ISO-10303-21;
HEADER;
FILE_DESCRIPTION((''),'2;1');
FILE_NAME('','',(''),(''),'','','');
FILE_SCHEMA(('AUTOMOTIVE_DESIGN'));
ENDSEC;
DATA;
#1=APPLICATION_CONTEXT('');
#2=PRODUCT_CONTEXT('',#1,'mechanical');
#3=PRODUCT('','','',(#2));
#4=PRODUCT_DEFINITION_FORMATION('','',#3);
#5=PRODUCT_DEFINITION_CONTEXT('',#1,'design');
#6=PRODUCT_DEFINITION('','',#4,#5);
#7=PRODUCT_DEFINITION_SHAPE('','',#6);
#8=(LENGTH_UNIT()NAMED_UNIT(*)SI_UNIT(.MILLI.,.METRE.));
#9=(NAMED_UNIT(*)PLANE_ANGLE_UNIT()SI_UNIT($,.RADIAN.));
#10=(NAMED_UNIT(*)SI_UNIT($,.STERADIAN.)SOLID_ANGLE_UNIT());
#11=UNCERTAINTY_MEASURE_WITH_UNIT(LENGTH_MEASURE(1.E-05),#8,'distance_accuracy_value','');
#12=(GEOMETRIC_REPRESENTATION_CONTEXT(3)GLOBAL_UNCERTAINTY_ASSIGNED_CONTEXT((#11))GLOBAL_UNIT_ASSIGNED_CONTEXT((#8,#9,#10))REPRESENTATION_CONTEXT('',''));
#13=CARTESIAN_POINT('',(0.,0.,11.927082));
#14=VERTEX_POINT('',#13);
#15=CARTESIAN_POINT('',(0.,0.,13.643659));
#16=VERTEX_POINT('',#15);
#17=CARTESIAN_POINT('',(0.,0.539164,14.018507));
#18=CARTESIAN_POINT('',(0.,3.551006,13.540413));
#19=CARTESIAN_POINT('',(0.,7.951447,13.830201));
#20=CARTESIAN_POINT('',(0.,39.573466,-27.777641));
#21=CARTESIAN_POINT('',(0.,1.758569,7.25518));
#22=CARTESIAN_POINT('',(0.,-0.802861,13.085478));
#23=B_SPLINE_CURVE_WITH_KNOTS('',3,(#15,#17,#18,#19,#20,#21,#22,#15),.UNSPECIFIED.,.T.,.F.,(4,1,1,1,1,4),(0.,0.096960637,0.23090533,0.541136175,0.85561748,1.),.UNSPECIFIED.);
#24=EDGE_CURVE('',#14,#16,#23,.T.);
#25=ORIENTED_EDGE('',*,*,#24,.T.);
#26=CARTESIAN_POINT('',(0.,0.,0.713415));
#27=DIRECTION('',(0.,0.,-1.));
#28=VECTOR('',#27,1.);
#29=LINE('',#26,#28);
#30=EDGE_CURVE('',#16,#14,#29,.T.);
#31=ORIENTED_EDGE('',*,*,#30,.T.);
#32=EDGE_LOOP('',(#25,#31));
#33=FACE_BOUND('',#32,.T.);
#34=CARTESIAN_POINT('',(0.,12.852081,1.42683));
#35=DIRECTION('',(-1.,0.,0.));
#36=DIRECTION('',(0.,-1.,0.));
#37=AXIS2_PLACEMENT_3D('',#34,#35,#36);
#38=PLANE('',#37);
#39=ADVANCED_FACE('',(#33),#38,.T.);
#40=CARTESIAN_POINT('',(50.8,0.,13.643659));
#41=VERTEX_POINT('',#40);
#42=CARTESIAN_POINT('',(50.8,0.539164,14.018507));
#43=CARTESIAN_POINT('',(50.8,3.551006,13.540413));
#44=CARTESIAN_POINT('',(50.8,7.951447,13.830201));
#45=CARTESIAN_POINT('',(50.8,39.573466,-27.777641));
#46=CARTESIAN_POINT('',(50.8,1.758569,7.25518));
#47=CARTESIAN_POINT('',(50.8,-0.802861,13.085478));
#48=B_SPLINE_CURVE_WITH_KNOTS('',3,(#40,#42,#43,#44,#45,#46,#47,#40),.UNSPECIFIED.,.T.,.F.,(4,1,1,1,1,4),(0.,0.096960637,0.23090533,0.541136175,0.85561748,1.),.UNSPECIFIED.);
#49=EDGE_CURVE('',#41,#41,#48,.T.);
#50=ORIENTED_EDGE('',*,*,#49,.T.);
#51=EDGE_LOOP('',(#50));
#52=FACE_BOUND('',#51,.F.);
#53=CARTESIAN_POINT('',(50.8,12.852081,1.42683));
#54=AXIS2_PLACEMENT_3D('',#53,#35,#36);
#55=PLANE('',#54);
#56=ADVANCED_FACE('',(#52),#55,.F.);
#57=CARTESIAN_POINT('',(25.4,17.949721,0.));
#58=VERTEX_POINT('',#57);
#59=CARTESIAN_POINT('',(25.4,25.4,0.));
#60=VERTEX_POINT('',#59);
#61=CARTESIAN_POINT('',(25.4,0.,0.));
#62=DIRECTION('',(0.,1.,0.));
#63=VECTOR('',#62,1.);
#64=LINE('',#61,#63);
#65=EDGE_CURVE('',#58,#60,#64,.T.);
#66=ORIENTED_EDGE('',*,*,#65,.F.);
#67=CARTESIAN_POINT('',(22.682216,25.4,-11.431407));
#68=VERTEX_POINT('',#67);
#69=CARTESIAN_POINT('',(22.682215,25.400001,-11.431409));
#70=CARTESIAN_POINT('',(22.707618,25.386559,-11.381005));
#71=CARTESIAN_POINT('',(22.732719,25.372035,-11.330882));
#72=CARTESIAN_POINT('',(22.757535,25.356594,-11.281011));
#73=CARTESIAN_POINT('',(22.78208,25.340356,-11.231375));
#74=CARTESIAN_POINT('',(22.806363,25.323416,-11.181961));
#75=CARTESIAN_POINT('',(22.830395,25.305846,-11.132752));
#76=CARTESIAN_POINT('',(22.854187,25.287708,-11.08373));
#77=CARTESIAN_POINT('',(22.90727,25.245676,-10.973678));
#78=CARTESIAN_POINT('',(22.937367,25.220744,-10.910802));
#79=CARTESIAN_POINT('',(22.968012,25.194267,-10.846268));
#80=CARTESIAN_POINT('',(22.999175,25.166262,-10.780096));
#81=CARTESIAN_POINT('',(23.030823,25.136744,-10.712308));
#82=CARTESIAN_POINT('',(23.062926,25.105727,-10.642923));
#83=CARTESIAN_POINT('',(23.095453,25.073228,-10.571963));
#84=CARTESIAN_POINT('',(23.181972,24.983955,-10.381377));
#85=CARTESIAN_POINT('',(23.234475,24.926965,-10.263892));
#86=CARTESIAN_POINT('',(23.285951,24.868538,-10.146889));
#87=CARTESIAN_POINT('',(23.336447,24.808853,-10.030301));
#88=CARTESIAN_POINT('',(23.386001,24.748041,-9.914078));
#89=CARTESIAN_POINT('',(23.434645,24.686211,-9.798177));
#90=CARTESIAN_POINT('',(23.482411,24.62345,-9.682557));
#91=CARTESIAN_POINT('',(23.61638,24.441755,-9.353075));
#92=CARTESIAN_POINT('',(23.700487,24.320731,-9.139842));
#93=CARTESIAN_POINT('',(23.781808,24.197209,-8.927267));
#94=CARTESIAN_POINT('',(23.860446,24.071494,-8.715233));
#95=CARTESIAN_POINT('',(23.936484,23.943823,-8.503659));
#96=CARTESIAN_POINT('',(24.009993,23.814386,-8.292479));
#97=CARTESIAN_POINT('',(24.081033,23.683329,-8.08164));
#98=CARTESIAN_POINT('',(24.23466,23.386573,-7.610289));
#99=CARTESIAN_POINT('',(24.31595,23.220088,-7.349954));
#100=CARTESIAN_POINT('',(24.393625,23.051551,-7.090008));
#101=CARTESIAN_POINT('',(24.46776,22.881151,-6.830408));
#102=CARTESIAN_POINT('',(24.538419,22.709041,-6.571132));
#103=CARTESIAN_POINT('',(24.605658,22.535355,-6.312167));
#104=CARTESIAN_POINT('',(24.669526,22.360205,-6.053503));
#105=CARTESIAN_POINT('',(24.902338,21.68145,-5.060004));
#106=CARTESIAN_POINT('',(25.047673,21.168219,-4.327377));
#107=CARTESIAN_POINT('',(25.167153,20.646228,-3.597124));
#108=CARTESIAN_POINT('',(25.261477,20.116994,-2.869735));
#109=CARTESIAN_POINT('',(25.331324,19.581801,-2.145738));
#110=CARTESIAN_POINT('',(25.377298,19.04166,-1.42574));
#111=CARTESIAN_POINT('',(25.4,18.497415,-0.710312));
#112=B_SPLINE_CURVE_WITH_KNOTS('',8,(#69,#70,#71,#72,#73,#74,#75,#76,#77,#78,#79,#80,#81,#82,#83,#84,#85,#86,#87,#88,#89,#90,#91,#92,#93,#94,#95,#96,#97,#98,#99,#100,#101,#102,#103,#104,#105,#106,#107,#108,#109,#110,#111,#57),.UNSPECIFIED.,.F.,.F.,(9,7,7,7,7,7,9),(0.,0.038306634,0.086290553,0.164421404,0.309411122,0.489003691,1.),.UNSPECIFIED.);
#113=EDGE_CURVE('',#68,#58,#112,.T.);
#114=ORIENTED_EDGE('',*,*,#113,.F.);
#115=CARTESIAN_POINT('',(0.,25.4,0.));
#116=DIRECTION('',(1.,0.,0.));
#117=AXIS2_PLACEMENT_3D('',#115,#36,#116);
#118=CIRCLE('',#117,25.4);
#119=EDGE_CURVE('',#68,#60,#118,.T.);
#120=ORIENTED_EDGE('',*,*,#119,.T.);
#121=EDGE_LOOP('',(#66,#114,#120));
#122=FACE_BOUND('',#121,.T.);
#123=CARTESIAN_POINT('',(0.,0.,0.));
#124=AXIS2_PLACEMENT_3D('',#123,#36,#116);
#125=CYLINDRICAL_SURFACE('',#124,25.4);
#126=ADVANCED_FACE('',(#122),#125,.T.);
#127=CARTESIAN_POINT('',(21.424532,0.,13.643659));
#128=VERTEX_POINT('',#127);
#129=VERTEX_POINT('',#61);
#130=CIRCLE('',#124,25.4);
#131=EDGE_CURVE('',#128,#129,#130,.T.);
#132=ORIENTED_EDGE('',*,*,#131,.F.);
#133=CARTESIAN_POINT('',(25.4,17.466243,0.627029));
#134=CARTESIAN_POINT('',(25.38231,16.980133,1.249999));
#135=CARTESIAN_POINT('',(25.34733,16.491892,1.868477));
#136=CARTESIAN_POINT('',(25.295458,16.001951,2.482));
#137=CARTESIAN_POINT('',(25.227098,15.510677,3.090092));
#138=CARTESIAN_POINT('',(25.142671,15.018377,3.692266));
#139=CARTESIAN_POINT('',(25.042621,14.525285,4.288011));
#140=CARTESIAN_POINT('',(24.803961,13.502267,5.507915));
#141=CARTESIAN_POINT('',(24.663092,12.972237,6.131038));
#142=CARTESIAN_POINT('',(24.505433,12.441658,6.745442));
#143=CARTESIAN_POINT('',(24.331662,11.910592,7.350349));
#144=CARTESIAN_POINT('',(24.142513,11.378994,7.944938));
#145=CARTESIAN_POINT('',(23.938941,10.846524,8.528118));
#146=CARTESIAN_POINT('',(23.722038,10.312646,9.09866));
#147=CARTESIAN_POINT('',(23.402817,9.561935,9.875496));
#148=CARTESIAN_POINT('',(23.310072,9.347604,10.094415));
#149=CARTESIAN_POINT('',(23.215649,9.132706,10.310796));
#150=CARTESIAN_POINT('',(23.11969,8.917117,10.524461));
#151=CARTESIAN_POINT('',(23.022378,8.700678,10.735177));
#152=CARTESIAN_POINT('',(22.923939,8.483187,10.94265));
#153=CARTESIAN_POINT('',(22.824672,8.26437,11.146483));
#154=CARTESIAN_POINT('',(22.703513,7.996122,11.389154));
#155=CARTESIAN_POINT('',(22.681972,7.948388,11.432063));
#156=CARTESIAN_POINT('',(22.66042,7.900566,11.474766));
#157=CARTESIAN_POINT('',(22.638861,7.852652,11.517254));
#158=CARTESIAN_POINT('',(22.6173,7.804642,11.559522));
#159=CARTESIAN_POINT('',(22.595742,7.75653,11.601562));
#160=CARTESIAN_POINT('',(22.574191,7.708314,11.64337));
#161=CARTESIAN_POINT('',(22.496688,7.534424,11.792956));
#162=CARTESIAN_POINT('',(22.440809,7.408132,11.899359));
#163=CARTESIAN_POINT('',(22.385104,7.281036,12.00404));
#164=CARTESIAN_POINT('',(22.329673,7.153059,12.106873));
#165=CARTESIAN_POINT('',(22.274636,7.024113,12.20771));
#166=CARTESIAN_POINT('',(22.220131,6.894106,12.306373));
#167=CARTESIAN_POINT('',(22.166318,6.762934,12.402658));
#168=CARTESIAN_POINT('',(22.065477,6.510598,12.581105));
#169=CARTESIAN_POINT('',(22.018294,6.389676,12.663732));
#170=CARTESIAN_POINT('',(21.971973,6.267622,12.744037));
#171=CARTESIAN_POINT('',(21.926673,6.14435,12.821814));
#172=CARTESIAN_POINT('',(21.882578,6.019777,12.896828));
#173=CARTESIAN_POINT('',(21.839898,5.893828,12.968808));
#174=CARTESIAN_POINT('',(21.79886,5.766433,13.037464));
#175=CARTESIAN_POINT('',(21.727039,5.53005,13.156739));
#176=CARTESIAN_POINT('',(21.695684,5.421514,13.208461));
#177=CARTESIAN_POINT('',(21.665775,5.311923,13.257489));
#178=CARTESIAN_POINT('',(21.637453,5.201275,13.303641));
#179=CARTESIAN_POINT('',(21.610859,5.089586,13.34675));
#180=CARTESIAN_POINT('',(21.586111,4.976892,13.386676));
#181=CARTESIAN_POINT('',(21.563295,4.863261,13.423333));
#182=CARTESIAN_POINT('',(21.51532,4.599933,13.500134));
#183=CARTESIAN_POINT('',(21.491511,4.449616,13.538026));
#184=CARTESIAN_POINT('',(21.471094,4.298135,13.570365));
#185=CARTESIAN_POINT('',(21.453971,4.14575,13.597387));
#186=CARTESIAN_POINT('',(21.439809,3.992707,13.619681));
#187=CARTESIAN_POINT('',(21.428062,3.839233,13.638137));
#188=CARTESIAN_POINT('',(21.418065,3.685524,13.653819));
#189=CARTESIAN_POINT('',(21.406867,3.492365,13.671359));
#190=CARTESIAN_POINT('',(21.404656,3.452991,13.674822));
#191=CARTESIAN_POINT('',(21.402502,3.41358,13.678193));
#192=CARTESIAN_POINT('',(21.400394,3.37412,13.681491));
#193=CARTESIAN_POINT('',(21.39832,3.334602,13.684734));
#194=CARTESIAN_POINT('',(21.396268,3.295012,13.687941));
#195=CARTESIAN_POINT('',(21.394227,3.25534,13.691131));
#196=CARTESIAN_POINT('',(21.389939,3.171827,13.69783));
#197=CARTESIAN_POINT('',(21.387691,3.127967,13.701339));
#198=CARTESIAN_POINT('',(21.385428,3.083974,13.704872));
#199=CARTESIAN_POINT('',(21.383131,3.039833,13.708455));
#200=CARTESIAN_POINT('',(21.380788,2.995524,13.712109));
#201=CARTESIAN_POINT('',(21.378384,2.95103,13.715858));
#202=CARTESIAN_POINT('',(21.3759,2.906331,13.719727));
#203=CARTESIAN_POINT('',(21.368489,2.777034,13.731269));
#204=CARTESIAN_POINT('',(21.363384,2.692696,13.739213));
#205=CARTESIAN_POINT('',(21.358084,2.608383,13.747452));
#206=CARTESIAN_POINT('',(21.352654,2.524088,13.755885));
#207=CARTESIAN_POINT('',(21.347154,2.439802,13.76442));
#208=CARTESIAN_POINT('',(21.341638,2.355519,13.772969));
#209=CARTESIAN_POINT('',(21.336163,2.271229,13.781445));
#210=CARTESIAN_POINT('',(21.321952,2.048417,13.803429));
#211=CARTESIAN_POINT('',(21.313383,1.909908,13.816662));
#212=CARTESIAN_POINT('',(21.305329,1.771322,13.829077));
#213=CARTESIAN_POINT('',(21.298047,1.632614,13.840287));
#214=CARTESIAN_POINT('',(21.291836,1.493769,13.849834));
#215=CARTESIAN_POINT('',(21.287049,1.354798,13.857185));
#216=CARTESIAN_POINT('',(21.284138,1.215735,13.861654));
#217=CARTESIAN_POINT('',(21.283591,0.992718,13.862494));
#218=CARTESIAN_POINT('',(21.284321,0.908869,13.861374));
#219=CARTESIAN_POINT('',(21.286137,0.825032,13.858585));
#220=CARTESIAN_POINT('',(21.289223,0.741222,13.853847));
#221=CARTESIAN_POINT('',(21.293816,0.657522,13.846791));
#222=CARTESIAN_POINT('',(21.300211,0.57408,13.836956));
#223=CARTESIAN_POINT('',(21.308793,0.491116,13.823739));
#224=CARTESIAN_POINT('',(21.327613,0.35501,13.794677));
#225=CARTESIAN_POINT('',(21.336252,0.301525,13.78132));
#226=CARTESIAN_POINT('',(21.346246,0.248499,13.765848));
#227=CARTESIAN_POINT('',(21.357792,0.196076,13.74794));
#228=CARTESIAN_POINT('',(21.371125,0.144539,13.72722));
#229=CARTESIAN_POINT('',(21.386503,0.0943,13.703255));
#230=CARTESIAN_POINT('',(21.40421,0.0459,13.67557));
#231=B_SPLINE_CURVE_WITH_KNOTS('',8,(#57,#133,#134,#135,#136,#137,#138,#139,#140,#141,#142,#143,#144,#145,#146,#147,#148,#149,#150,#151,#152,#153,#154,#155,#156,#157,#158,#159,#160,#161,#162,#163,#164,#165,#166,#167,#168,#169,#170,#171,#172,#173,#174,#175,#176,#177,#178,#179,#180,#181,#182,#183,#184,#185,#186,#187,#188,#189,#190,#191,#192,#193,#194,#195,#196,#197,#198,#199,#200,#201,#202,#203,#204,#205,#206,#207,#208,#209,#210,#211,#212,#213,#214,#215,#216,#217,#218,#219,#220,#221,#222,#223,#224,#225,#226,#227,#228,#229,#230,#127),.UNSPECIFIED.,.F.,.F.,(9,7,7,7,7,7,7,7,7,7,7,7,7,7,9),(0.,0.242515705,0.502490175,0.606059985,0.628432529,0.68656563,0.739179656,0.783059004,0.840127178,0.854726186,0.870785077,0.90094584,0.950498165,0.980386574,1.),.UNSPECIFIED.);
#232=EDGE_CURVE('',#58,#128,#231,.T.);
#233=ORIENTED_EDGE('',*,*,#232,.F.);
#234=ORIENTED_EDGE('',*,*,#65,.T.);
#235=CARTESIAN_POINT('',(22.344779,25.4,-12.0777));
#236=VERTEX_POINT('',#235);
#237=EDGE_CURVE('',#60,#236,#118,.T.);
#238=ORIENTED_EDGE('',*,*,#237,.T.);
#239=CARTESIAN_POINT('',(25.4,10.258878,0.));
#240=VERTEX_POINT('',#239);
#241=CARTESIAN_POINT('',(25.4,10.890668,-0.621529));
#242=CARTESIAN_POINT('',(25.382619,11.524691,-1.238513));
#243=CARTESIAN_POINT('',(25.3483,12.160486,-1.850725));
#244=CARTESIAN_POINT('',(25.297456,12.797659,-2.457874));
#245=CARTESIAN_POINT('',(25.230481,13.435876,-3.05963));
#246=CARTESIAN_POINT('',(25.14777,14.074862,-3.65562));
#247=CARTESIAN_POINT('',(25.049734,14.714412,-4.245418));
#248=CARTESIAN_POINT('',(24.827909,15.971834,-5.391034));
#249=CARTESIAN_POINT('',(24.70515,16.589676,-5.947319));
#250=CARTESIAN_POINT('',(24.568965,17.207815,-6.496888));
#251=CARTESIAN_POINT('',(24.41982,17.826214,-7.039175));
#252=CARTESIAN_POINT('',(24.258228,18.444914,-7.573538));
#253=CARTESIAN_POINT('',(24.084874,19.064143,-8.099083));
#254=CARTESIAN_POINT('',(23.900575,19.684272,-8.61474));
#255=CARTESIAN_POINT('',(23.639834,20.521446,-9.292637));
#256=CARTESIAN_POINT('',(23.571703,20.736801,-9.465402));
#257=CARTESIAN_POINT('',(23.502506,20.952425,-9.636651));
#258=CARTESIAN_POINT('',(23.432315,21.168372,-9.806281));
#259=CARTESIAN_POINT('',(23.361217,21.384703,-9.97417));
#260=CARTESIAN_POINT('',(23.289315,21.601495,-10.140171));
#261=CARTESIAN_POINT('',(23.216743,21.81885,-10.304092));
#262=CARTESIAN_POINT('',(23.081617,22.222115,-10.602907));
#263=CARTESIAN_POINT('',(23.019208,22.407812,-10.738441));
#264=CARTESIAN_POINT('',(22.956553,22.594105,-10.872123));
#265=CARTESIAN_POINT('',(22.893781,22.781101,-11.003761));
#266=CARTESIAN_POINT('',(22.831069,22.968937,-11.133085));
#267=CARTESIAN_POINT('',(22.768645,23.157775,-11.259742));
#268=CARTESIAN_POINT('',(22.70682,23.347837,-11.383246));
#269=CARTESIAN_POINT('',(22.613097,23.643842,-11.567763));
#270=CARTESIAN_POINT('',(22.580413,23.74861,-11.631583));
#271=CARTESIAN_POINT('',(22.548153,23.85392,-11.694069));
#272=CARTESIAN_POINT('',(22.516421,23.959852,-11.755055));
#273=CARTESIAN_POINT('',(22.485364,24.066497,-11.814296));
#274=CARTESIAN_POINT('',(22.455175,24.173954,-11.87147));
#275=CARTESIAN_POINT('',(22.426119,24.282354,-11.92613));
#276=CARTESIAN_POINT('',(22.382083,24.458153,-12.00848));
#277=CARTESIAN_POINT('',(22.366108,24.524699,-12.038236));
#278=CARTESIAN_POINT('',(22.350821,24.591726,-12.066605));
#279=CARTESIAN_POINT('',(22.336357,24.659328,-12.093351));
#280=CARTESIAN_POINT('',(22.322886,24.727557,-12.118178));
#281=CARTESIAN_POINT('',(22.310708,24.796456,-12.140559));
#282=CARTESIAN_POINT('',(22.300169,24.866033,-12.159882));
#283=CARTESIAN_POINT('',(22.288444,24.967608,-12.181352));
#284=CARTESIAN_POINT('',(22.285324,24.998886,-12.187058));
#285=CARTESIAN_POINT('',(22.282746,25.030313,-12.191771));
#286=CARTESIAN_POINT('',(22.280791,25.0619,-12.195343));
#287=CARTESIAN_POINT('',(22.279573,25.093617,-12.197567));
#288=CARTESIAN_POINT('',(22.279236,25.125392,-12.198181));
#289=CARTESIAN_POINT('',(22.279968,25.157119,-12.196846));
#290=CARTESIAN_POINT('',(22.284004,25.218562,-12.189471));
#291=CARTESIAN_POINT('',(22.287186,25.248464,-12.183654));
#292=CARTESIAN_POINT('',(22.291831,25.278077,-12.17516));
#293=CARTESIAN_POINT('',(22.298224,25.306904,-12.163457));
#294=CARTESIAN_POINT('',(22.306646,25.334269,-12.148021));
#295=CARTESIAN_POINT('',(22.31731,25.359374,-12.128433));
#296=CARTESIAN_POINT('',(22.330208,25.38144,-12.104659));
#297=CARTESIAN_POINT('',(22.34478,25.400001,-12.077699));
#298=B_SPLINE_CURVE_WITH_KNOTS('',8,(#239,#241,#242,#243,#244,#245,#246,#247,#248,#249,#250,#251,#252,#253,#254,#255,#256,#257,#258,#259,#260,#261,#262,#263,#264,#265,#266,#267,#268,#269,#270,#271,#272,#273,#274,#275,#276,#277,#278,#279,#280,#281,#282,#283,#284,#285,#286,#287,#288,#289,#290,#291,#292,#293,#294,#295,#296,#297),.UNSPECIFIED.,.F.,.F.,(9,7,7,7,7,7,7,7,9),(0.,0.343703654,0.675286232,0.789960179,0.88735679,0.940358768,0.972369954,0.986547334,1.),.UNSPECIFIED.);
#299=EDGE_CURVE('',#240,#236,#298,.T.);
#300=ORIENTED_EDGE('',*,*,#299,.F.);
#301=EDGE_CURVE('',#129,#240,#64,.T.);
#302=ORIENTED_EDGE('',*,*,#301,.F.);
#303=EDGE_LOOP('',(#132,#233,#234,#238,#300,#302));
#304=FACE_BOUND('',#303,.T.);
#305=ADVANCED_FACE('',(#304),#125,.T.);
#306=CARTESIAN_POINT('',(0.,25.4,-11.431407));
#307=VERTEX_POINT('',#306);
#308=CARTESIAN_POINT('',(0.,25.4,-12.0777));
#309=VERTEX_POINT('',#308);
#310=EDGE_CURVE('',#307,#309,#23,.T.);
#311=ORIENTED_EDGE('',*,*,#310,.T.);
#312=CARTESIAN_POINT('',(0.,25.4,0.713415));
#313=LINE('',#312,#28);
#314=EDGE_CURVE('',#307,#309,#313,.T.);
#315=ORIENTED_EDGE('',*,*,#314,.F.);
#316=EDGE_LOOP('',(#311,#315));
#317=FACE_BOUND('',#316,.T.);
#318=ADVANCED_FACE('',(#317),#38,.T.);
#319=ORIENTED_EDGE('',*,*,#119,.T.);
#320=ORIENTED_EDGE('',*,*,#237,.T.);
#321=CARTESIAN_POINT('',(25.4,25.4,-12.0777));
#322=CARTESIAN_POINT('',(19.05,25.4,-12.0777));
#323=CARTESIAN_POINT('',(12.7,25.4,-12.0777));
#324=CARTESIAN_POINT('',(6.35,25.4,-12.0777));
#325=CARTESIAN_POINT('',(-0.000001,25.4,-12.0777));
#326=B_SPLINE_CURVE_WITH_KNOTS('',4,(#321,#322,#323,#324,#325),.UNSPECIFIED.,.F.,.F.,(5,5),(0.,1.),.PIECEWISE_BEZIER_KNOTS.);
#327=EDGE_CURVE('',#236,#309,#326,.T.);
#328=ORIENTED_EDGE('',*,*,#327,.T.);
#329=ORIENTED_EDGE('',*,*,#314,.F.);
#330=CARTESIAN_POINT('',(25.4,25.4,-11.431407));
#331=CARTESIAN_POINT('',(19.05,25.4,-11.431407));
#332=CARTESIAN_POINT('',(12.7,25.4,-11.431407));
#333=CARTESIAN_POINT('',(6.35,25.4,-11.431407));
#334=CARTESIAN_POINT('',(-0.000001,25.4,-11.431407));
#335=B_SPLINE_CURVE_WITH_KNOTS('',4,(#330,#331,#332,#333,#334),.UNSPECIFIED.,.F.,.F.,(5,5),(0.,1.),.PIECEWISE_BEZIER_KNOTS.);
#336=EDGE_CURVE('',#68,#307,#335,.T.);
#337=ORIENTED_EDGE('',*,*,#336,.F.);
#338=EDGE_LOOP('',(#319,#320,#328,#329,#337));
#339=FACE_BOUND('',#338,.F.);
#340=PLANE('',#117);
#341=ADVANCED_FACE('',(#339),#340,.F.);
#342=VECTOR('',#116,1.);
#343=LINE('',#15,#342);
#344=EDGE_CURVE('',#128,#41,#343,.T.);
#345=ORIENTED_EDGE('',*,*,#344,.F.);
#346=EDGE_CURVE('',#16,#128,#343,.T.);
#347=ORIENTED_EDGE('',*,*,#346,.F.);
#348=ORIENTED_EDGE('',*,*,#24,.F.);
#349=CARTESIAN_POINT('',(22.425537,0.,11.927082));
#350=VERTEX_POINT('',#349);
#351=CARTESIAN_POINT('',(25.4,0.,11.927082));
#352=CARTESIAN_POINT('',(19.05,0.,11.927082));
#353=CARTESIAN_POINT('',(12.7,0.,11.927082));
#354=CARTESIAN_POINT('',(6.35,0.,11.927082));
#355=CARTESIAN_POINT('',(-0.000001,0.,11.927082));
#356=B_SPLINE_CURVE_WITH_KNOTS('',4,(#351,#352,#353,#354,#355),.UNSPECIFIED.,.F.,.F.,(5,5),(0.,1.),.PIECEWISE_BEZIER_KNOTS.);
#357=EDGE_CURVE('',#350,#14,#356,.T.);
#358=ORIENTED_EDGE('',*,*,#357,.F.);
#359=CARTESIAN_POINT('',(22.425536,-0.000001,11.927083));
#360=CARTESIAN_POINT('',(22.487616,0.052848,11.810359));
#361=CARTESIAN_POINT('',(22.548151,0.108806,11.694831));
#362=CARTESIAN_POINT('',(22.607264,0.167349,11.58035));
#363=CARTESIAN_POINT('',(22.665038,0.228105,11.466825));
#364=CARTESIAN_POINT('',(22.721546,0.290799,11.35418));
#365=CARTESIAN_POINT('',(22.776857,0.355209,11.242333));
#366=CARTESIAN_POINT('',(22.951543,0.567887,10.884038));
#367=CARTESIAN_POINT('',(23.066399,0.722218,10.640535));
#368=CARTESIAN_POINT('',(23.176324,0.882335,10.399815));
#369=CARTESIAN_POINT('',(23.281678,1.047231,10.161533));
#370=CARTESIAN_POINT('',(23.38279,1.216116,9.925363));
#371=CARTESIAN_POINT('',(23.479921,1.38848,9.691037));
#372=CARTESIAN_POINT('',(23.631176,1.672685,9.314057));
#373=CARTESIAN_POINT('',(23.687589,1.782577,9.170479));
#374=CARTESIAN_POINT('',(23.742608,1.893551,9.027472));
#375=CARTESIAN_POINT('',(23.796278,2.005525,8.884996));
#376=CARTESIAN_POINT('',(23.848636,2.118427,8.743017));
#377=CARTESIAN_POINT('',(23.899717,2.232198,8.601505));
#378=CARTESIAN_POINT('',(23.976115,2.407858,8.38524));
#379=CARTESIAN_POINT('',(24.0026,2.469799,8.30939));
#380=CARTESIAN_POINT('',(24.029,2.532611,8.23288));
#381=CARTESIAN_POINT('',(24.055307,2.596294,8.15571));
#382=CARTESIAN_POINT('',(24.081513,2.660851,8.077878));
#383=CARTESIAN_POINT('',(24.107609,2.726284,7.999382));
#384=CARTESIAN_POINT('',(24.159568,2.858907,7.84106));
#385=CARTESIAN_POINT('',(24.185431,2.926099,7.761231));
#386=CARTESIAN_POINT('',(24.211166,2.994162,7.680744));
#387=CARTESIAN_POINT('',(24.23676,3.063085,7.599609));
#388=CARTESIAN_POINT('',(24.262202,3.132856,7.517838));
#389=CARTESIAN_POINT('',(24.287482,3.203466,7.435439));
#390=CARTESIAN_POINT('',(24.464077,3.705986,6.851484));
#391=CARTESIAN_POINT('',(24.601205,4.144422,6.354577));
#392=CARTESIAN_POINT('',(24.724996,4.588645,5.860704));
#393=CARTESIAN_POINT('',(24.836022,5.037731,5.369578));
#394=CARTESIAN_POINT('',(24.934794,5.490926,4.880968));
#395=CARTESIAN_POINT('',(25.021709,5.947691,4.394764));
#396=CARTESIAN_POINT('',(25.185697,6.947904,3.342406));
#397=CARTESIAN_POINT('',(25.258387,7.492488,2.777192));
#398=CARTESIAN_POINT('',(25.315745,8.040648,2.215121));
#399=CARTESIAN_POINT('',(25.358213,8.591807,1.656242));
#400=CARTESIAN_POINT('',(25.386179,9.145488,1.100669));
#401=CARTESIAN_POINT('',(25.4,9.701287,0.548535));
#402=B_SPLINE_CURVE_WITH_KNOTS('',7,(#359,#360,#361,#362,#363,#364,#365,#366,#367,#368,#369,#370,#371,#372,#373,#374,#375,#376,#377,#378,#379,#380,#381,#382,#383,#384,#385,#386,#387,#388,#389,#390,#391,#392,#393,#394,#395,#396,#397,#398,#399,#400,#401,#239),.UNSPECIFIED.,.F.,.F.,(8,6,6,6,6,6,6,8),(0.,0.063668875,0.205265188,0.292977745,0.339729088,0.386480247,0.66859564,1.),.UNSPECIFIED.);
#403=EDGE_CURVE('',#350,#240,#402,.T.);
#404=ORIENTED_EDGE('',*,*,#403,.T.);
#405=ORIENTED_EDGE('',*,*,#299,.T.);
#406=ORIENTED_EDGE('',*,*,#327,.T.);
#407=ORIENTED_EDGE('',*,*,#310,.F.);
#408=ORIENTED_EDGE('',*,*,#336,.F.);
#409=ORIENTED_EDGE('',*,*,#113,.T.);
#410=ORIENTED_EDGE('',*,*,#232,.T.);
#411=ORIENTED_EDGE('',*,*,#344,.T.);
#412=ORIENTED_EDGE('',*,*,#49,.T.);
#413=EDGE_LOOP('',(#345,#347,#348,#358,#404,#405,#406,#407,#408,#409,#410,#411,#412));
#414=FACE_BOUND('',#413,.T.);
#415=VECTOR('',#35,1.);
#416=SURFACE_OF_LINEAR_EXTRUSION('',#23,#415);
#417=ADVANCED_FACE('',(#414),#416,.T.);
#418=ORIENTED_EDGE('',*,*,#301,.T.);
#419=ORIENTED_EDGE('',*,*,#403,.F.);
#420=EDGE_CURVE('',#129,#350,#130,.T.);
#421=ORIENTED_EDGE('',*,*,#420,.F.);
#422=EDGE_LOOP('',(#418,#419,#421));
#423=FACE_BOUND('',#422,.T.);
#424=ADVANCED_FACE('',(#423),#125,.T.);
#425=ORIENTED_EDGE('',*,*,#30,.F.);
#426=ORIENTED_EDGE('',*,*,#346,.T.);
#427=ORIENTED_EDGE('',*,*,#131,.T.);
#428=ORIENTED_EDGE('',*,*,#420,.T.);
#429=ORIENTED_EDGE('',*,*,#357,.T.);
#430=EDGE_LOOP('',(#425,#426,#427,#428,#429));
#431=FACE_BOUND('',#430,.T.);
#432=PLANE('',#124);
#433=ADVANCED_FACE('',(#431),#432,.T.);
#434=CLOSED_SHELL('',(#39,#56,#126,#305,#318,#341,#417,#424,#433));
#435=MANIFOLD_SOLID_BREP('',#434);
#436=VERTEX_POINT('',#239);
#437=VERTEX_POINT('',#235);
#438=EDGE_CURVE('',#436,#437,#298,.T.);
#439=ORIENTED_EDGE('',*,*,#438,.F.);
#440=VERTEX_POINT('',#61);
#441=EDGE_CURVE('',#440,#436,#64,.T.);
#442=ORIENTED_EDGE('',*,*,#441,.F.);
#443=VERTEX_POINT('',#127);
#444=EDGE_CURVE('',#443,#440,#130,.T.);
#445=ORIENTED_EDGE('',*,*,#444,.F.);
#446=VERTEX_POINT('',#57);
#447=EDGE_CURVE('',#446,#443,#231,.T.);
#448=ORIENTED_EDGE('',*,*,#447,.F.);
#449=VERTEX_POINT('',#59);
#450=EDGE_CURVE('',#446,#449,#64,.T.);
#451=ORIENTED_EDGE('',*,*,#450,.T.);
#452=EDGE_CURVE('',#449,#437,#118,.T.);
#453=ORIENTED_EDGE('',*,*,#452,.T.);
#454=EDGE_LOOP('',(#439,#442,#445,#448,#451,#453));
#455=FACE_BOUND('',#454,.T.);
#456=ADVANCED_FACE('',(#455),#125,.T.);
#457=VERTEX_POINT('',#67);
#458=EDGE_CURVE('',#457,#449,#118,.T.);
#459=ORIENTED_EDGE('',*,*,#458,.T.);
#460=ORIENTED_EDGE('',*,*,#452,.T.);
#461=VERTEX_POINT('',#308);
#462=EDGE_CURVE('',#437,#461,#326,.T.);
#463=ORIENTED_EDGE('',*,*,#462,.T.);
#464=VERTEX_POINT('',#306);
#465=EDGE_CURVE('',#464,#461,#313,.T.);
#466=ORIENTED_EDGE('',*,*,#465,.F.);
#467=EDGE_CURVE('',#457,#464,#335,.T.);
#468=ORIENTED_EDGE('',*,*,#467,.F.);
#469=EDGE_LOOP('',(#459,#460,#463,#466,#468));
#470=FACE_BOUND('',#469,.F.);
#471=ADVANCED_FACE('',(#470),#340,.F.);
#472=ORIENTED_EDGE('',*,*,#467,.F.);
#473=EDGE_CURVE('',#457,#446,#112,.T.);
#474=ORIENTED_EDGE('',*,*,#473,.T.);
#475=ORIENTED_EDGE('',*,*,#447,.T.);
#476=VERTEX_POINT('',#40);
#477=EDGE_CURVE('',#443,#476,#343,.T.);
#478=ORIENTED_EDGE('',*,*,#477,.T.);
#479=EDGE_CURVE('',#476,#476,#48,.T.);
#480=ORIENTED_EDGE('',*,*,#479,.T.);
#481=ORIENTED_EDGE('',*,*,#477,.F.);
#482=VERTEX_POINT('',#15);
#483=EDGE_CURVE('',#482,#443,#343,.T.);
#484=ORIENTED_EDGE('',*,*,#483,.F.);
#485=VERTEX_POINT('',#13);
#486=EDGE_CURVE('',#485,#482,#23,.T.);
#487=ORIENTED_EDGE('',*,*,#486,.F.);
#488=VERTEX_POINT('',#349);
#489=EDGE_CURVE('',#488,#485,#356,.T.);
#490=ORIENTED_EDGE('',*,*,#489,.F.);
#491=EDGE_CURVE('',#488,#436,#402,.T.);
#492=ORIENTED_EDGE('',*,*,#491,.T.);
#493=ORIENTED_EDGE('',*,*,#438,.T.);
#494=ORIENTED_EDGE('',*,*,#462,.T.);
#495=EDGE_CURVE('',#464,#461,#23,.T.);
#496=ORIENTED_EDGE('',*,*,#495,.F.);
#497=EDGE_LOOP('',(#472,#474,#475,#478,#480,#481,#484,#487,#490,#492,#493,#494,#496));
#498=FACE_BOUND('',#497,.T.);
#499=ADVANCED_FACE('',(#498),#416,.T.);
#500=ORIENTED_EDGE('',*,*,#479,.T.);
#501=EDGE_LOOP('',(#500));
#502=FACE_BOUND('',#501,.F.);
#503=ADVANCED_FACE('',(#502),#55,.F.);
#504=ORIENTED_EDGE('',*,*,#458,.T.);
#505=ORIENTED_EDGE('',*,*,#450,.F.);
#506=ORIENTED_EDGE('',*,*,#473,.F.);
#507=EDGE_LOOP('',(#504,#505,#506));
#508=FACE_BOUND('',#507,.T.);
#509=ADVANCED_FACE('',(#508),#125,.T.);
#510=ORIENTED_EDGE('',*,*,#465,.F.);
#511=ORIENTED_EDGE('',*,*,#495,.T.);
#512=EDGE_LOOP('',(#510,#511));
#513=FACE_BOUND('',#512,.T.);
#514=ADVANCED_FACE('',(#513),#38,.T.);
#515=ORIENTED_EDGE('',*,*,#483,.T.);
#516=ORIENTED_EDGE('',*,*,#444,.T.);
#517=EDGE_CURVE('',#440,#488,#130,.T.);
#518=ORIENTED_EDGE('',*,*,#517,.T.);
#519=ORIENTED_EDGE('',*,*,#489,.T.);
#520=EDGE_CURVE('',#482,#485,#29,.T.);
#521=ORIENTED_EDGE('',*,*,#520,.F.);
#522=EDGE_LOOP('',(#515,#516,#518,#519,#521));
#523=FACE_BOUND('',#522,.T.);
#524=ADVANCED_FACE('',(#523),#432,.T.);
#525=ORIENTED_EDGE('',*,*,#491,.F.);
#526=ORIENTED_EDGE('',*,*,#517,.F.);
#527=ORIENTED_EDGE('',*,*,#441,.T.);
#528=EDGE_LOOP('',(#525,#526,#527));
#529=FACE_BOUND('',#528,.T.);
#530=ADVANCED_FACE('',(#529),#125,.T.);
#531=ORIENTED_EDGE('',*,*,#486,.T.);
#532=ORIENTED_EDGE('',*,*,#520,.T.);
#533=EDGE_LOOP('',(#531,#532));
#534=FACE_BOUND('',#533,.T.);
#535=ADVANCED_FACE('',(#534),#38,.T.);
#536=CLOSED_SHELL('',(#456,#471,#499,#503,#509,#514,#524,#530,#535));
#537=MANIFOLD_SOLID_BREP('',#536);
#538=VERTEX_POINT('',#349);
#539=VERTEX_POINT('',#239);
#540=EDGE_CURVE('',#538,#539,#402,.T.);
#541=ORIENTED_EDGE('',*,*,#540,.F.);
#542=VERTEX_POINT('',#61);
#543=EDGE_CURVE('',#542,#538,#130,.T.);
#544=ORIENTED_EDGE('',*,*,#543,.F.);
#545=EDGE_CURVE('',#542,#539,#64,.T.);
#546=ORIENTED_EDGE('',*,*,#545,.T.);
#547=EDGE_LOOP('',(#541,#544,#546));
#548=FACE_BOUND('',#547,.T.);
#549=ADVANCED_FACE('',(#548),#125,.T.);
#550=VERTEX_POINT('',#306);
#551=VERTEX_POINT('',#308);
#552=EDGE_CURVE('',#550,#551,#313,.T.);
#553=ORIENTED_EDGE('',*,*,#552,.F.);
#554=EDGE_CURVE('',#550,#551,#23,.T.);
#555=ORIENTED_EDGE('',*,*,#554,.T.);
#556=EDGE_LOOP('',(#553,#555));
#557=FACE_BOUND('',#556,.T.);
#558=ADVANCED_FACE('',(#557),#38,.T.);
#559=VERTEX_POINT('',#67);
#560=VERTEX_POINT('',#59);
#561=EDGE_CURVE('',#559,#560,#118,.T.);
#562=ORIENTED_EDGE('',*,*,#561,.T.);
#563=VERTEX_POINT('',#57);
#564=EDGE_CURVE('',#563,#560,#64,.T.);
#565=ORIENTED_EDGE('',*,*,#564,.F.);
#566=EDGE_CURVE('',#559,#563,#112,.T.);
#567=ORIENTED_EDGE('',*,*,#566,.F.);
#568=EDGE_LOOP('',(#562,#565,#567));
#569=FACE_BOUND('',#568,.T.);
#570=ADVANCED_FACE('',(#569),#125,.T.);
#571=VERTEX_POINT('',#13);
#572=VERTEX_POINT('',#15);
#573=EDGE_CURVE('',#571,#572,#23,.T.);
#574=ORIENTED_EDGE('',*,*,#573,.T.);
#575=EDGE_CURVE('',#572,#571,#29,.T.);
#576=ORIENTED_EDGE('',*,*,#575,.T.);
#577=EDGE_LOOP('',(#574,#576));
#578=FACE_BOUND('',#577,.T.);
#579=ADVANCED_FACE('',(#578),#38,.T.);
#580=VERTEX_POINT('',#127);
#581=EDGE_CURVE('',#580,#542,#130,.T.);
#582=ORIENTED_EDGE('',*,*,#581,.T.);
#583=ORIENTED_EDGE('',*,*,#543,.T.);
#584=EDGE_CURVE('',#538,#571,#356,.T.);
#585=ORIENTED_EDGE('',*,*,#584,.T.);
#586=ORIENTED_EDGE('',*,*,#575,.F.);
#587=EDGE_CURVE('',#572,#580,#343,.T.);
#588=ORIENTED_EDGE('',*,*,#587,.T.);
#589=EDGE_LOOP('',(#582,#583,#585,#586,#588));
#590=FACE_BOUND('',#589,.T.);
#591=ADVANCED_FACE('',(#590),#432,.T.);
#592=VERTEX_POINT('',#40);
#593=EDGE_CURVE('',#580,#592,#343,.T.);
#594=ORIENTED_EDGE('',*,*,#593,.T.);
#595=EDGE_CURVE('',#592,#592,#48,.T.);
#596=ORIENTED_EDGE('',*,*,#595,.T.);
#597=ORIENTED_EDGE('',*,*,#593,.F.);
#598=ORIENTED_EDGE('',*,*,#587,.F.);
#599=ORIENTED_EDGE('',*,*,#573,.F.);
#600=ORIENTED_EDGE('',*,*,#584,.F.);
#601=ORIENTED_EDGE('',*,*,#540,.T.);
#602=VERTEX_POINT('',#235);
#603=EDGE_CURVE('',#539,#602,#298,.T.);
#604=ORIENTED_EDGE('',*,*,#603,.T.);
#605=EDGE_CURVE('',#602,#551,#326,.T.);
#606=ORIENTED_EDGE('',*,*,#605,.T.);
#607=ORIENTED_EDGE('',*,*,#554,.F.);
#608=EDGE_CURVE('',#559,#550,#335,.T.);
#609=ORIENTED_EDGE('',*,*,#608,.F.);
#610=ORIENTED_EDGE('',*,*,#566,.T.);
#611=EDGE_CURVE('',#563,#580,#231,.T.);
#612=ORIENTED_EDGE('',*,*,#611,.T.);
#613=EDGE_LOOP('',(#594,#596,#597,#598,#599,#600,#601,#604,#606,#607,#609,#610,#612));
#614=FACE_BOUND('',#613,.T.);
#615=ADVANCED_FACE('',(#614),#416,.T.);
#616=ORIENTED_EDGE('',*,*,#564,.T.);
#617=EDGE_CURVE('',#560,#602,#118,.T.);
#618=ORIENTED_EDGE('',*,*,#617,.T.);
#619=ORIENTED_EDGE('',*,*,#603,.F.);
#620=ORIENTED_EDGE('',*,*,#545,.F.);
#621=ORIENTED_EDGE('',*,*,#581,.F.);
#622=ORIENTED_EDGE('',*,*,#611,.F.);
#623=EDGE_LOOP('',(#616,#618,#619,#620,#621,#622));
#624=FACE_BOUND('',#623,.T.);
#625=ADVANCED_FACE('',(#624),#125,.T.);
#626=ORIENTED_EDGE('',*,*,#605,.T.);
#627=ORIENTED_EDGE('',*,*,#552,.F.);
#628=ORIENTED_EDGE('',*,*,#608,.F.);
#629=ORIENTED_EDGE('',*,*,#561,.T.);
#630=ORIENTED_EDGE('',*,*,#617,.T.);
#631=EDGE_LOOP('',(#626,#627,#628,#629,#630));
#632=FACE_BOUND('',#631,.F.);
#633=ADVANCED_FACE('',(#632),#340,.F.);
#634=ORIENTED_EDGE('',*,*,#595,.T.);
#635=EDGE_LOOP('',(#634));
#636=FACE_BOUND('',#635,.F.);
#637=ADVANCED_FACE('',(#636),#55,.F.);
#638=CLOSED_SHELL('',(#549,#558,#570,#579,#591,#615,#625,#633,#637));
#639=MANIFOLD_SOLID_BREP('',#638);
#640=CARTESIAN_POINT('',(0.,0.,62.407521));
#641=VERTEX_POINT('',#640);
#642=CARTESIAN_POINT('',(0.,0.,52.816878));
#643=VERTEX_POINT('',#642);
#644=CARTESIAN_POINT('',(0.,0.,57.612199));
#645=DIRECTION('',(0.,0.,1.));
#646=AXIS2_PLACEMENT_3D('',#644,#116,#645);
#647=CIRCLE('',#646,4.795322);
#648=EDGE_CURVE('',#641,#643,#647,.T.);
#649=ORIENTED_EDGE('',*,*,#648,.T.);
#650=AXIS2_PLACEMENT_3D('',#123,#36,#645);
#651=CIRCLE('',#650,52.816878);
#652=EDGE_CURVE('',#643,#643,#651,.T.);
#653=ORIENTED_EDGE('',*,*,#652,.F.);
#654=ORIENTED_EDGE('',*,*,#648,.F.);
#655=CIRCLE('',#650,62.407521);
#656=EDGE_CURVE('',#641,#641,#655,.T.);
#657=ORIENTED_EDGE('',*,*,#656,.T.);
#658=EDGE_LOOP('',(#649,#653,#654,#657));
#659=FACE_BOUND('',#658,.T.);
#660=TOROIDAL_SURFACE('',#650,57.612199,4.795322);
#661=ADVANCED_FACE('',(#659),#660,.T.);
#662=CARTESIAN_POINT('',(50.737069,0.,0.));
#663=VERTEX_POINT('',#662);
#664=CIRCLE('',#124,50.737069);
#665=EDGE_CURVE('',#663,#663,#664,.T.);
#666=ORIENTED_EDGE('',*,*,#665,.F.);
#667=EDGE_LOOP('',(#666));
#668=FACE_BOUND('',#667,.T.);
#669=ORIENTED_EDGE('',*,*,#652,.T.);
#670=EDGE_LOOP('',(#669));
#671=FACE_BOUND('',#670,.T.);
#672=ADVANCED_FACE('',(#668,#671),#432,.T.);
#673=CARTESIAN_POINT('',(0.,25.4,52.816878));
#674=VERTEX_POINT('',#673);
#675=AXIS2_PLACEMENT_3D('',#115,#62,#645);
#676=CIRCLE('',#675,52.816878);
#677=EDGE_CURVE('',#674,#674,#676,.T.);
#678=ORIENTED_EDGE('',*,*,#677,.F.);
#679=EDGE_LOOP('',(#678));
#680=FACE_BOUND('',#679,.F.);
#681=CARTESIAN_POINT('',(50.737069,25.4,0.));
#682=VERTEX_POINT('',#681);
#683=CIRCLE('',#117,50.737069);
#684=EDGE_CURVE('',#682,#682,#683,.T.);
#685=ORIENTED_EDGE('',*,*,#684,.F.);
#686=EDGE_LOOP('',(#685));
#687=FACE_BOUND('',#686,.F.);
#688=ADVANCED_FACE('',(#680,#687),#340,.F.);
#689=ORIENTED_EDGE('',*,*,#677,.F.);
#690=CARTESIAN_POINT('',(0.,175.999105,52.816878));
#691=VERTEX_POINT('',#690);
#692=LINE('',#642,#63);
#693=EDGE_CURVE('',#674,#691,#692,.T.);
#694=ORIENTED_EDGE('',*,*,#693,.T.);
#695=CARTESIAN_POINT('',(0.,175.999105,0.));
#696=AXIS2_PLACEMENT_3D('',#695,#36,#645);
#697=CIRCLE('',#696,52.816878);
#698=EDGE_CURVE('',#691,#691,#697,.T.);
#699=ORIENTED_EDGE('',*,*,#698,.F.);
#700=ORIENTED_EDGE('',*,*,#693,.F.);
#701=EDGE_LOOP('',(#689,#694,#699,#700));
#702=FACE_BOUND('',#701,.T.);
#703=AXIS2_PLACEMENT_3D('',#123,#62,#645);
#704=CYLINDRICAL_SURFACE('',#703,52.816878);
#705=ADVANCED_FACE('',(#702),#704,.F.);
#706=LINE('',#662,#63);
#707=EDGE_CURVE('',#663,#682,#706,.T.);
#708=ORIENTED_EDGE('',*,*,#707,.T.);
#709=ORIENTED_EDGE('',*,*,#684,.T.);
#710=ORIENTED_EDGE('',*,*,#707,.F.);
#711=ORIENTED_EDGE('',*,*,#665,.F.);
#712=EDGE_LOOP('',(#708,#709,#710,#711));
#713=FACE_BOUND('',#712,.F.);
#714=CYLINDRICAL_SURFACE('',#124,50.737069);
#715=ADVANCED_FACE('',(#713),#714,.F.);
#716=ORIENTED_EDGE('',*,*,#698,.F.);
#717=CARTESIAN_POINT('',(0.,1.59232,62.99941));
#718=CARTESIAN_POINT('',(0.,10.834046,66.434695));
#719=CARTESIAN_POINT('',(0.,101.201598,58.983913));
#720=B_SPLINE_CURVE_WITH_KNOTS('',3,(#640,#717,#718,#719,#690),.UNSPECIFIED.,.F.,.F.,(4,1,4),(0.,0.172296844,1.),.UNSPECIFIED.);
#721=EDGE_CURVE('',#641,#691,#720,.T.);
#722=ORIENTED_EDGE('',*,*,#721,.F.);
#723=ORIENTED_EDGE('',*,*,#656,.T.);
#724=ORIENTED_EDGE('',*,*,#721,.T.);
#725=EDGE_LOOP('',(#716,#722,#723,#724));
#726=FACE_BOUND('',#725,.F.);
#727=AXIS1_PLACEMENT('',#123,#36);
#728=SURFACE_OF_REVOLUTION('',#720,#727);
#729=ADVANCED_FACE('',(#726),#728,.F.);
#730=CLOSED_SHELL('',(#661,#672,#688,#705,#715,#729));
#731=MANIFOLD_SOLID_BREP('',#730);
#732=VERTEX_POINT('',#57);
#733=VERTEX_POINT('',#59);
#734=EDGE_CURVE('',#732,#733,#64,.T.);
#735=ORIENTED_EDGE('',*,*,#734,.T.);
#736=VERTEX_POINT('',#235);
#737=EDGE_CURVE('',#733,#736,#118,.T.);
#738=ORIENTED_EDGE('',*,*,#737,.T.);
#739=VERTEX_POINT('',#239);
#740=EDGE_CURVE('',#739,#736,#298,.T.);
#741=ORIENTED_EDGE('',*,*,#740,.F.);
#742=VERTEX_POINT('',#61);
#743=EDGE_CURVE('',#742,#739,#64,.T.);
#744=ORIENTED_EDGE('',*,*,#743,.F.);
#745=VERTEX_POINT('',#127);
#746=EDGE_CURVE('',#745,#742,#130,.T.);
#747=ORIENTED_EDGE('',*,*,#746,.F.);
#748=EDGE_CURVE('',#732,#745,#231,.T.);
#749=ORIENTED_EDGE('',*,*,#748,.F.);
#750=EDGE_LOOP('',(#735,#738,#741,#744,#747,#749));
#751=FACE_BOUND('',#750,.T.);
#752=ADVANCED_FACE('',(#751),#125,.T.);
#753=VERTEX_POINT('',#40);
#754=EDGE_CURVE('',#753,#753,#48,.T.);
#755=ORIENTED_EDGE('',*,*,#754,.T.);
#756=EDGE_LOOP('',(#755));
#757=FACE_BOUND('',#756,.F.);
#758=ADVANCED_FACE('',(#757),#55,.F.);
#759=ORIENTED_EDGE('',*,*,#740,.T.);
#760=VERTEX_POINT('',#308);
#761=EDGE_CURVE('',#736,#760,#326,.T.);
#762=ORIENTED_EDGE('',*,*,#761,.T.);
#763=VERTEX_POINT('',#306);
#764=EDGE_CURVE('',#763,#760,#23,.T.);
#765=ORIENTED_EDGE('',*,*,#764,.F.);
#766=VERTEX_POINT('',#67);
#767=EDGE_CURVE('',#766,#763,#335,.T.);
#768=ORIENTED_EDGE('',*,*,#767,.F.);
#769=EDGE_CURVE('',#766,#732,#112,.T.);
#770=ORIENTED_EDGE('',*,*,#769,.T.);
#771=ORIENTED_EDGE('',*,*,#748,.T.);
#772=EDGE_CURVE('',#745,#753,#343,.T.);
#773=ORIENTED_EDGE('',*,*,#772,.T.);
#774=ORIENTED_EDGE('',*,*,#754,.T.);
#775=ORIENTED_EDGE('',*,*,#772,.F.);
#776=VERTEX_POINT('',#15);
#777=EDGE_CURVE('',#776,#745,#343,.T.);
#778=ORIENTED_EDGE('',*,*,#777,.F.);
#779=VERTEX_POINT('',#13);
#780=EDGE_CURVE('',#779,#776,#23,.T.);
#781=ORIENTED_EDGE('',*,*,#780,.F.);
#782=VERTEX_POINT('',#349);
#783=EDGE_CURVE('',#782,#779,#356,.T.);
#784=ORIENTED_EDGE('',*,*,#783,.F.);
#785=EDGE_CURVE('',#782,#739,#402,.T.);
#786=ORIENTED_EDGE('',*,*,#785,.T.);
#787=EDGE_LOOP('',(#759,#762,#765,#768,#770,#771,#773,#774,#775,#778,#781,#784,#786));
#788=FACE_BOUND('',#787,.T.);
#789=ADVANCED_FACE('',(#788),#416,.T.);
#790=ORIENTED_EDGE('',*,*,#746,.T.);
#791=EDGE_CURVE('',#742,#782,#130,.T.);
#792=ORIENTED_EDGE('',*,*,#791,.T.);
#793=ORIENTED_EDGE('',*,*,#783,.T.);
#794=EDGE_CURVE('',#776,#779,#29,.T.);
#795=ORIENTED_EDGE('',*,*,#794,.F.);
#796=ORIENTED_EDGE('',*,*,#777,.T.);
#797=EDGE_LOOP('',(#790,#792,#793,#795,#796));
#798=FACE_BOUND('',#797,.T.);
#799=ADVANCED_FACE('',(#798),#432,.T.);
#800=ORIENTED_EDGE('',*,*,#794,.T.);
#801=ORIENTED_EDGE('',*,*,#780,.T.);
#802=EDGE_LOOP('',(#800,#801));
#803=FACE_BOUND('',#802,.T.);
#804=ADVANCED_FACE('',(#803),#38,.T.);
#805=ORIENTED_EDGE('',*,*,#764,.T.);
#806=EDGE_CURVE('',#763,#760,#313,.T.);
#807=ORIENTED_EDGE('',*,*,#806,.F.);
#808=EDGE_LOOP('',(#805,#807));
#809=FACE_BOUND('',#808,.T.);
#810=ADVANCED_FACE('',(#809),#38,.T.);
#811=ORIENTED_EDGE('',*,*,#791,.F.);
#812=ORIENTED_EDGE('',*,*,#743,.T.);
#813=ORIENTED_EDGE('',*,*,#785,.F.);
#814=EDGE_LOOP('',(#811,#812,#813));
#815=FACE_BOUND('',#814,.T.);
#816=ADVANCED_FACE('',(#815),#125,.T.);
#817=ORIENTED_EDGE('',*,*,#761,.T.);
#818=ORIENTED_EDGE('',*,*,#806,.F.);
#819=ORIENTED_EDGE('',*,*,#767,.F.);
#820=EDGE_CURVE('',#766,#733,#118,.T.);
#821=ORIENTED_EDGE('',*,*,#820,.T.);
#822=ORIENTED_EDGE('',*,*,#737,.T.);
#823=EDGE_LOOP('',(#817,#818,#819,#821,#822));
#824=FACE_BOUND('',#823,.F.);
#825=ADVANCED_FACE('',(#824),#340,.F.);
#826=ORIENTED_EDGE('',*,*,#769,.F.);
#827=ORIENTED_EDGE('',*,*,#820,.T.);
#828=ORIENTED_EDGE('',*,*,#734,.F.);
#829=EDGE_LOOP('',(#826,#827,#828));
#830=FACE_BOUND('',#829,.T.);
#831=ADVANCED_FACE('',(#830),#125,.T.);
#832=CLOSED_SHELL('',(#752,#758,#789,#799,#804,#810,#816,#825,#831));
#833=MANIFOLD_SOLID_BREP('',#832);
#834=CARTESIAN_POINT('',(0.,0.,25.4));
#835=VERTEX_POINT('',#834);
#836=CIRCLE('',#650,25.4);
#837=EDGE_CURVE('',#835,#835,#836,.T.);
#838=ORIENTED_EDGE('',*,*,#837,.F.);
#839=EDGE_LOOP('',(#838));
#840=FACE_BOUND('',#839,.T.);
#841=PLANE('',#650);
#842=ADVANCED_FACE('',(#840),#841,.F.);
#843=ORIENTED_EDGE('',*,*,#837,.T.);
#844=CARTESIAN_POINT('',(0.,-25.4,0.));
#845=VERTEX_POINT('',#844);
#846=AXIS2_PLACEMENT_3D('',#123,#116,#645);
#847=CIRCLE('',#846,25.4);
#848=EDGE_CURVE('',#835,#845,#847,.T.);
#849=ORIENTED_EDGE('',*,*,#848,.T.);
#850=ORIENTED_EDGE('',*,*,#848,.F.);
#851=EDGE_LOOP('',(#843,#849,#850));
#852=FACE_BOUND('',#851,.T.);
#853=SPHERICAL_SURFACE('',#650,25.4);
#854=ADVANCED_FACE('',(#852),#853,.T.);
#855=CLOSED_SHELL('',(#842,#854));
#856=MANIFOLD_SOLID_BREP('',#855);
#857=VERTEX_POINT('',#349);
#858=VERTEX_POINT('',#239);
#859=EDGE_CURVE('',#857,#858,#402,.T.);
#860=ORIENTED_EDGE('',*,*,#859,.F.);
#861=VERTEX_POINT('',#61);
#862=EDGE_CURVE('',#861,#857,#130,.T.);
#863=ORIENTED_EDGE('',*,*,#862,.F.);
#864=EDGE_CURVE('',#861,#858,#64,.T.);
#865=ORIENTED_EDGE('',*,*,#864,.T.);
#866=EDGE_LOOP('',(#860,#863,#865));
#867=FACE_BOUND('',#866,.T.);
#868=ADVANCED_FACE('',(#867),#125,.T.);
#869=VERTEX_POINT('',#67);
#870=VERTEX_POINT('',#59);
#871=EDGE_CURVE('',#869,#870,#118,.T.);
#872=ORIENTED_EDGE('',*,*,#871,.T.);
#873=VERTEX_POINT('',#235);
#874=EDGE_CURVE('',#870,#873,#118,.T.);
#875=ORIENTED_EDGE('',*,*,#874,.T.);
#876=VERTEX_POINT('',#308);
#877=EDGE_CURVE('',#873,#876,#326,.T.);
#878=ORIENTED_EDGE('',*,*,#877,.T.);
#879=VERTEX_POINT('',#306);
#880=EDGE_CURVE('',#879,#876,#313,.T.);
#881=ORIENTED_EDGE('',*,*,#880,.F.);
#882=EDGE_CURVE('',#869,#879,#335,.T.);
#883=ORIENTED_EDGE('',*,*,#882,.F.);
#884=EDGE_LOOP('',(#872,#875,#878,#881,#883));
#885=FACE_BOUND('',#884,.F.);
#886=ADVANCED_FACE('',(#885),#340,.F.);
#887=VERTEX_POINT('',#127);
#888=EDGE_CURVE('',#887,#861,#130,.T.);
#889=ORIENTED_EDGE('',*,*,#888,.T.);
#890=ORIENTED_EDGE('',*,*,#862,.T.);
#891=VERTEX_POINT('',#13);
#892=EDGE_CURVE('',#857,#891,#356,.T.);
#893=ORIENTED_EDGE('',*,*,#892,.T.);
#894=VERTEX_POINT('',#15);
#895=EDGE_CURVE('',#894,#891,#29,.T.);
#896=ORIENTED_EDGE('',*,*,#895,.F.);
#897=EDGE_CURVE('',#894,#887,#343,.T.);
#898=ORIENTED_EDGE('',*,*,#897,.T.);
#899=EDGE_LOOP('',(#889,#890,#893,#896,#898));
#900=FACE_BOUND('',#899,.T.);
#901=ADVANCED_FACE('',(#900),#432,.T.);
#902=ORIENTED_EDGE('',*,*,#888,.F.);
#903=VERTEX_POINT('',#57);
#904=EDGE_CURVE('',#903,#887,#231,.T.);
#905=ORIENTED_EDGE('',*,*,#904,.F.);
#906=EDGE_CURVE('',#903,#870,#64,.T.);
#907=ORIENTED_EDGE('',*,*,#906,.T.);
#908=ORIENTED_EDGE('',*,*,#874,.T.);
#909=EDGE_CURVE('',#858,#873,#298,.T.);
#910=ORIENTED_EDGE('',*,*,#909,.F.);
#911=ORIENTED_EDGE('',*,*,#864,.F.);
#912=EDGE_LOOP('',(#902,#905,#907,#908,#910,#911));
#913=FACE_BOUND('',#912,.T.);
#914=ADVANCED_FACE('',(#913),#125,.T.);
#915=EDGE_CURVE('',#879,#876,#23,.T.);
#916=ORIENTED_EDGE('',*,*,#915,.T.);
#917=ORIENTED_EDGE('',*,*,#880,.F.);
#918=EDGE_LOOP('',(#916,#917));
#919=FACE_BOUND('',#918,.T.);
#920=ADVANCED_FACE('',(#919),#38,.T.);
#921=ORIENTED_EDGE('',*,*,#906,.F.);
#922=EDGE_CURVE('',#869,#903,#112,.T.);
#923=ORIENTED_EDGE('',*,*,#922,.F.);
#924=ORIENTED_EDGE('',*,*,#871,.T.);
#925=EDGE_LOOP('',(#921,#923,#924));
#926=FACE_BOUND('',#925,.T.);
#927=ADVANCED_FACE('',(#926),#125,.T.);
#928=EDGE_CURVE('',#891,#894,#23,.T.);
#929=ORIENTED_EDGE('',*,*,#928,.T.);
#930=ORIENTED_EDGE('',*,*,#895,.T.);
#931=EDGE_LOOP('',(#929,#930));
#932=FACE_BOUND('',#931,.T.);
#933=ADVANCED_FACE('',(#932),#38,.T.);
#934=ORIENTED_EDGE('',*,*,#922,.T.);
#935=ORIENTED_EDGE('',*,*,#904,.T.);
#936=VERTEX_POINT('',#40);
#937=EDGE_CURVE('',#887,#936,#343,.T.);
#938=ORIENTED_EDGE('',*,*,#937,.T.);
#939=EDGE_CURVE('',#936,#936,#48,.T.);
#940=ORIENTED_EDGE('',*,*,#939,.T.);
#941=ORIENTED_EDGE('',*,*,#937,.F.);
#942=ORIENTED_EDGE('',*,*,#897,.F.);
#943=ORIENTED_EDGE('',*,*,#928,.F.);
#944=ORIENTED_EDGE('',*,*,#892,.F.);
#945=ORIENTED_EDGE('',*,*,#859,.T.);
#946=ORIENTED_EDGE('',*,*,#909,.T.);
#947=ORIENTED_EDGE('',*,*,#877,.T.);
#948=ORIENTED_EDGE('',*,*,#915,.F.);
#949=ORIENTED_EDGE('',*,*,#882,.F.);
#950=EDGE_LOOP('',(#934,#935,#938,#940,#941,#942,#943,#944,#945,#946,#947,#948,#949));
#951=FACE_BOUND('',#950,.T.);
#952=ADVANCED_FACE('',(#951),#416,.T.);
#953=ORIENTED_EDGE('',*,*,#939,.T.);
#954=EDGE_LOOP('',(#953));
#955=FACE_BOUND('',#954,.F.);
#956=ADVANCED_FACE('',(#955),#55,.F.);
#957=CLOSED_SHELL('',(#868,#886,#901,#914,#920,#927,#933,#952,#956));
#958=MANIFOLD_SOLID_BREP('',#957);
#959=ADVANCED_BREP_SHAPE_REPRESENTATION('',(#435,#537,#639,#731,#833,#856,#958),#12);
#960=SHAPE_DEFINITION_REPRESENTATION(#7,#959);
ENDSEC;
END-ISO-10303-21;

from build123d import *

# Parameters (mm, degrees)
F0_R     = 25.4
F1_DEPTH = 25.4
F3_DEPTH = 50.8
F4_COUNT = 5
F5_R     = 52.8912815085
F5_R_2   = 50.737069125
F6_DEPTH = 25.4


with BuildPart() as f1:
    # F0 (on Front) → F1 (new body)
    with BuildSketch(Plane.XZ):
        Circle(F0_R)
    extrude(amount=-F1_DEPTH)

    # F2 (on Right) → F3 (join)
    with BuildSketch(Plane.YZ):
        with BuildLine():
            add(Edge.make_bspline(
                [(0, 13.64365872), (0.5391643729, 14.0185073014), (3.5510055592, 13.5404134061), (7.9514472161, 13.8302006295), (39.5734664456, -27.7776414656), (1.7585688898, 7.2551801283), (-0.8028609734, 13.085477742), (0, 13.64365872)],
                knots=[0, 0, 0, 0, 0.0969606366, 0.2309053304, 0.5411361754, 0.8556174796, 1, 1, 1, 1], degree=3))
        make_face()
    extrude(amount=F3_DEPTH)


with BuildPart() as f4_1:
    # F4: instance of F1
    add(f1.part.rotate(Axis((0, 0, 0), (0, -1, 0)), 1 * 360 / F4_COUNT))


with BuildPart() as f4_2:
    # F4: instance of F1
    add(f1.part.rotate(Axis((0, 0, 0), (0, -1, 0)), 2 * 360 / F4_COUNT))


with BuildPart() as f4_3:
    # F4: instance of F1
    add(f1.part.rotate(Axis((0, 0, 0), (0, -1, 0)), 3 * 360 / F4_COUNT))


with BuildPart() as f4_4:
    # F4: instance of F1
    add(f1.part.rotate(Axis((0, 0, 0), (0, -1, 0)), 4 * 360 / F4_COUNT))


with BuildPart() as f6:
    # F5 (on face) → F6 (new body)
    with BuildSketch(Plane.XZ):
        Circle(F5_R)
        Circle(F5_R_2, mode=Mode.SUBTRACT)
    extrude(amount=-F6_DEPTH)

    # F9 (on Right) → F10 (revolve)
    with BuildSketch(Plane.YZ):
        with BuildLine():
            ThreePointArc((0, 52.8168776636), (3.3908044727, 54.2213948636), (4.7953216727, 57.6121993363))
            ThreePointArc((4.7953216727, 57.6121993363), (3.3908044727, 61.003003809), (0, 62.407521009))
            ThreePointArc((0, 62.407521009), (-4.7953216727, 57.6121993363), (0, 52.8168776636))
        make_face()
        with BuildLine():
            ThreePointArc((0, 62.407521009), (3.3908044727, 61.003003809), (4.7953216727, 57.6121993363))
            ThreePointArc((4.7953216727, 57.6121993363), (3.3908044727, 54.2213948636), (0, 52.8168776636))
            Line((0, 52.8168776636), (175.9991049767, 52.8168776636))
            add(Edge.make_bspline(
                [(0, 62.407521009), (1.5923202644, 62.9994098499), (10.8340464982, 66.4346952955), (101.2015976775, 58.9839133738), (175.9991049767, 52.8168776636)],
                knots=[0, 0, 0, 0, 0.1722968441, 1, 1, 1, 1], degree=3))
        make_face()
    revolve(axis=Axis((0, 0, 0), (0, -1, 0)))


with BuildPart() as f8:
    # F7 (on Right) → F8 (revolve)
    with BuildSketch(Plane.YZ):
        with BuildLine():
            Line((0, 0), (0, 25.4))
            ThreePointArc((0, 25.4), (-17.9605122421, 17.9605122421), (-25.4, 0))
            Line((-25.4, 0), (0, 0))
        make_face()
    revolve(axis=Axis((0, 0, 0), (0, -1, 0)))


solid = Compound([f1.part, f4_1.part, f4_2.part, f4_3.part, f4_4.part, f6.part, f8.part])
